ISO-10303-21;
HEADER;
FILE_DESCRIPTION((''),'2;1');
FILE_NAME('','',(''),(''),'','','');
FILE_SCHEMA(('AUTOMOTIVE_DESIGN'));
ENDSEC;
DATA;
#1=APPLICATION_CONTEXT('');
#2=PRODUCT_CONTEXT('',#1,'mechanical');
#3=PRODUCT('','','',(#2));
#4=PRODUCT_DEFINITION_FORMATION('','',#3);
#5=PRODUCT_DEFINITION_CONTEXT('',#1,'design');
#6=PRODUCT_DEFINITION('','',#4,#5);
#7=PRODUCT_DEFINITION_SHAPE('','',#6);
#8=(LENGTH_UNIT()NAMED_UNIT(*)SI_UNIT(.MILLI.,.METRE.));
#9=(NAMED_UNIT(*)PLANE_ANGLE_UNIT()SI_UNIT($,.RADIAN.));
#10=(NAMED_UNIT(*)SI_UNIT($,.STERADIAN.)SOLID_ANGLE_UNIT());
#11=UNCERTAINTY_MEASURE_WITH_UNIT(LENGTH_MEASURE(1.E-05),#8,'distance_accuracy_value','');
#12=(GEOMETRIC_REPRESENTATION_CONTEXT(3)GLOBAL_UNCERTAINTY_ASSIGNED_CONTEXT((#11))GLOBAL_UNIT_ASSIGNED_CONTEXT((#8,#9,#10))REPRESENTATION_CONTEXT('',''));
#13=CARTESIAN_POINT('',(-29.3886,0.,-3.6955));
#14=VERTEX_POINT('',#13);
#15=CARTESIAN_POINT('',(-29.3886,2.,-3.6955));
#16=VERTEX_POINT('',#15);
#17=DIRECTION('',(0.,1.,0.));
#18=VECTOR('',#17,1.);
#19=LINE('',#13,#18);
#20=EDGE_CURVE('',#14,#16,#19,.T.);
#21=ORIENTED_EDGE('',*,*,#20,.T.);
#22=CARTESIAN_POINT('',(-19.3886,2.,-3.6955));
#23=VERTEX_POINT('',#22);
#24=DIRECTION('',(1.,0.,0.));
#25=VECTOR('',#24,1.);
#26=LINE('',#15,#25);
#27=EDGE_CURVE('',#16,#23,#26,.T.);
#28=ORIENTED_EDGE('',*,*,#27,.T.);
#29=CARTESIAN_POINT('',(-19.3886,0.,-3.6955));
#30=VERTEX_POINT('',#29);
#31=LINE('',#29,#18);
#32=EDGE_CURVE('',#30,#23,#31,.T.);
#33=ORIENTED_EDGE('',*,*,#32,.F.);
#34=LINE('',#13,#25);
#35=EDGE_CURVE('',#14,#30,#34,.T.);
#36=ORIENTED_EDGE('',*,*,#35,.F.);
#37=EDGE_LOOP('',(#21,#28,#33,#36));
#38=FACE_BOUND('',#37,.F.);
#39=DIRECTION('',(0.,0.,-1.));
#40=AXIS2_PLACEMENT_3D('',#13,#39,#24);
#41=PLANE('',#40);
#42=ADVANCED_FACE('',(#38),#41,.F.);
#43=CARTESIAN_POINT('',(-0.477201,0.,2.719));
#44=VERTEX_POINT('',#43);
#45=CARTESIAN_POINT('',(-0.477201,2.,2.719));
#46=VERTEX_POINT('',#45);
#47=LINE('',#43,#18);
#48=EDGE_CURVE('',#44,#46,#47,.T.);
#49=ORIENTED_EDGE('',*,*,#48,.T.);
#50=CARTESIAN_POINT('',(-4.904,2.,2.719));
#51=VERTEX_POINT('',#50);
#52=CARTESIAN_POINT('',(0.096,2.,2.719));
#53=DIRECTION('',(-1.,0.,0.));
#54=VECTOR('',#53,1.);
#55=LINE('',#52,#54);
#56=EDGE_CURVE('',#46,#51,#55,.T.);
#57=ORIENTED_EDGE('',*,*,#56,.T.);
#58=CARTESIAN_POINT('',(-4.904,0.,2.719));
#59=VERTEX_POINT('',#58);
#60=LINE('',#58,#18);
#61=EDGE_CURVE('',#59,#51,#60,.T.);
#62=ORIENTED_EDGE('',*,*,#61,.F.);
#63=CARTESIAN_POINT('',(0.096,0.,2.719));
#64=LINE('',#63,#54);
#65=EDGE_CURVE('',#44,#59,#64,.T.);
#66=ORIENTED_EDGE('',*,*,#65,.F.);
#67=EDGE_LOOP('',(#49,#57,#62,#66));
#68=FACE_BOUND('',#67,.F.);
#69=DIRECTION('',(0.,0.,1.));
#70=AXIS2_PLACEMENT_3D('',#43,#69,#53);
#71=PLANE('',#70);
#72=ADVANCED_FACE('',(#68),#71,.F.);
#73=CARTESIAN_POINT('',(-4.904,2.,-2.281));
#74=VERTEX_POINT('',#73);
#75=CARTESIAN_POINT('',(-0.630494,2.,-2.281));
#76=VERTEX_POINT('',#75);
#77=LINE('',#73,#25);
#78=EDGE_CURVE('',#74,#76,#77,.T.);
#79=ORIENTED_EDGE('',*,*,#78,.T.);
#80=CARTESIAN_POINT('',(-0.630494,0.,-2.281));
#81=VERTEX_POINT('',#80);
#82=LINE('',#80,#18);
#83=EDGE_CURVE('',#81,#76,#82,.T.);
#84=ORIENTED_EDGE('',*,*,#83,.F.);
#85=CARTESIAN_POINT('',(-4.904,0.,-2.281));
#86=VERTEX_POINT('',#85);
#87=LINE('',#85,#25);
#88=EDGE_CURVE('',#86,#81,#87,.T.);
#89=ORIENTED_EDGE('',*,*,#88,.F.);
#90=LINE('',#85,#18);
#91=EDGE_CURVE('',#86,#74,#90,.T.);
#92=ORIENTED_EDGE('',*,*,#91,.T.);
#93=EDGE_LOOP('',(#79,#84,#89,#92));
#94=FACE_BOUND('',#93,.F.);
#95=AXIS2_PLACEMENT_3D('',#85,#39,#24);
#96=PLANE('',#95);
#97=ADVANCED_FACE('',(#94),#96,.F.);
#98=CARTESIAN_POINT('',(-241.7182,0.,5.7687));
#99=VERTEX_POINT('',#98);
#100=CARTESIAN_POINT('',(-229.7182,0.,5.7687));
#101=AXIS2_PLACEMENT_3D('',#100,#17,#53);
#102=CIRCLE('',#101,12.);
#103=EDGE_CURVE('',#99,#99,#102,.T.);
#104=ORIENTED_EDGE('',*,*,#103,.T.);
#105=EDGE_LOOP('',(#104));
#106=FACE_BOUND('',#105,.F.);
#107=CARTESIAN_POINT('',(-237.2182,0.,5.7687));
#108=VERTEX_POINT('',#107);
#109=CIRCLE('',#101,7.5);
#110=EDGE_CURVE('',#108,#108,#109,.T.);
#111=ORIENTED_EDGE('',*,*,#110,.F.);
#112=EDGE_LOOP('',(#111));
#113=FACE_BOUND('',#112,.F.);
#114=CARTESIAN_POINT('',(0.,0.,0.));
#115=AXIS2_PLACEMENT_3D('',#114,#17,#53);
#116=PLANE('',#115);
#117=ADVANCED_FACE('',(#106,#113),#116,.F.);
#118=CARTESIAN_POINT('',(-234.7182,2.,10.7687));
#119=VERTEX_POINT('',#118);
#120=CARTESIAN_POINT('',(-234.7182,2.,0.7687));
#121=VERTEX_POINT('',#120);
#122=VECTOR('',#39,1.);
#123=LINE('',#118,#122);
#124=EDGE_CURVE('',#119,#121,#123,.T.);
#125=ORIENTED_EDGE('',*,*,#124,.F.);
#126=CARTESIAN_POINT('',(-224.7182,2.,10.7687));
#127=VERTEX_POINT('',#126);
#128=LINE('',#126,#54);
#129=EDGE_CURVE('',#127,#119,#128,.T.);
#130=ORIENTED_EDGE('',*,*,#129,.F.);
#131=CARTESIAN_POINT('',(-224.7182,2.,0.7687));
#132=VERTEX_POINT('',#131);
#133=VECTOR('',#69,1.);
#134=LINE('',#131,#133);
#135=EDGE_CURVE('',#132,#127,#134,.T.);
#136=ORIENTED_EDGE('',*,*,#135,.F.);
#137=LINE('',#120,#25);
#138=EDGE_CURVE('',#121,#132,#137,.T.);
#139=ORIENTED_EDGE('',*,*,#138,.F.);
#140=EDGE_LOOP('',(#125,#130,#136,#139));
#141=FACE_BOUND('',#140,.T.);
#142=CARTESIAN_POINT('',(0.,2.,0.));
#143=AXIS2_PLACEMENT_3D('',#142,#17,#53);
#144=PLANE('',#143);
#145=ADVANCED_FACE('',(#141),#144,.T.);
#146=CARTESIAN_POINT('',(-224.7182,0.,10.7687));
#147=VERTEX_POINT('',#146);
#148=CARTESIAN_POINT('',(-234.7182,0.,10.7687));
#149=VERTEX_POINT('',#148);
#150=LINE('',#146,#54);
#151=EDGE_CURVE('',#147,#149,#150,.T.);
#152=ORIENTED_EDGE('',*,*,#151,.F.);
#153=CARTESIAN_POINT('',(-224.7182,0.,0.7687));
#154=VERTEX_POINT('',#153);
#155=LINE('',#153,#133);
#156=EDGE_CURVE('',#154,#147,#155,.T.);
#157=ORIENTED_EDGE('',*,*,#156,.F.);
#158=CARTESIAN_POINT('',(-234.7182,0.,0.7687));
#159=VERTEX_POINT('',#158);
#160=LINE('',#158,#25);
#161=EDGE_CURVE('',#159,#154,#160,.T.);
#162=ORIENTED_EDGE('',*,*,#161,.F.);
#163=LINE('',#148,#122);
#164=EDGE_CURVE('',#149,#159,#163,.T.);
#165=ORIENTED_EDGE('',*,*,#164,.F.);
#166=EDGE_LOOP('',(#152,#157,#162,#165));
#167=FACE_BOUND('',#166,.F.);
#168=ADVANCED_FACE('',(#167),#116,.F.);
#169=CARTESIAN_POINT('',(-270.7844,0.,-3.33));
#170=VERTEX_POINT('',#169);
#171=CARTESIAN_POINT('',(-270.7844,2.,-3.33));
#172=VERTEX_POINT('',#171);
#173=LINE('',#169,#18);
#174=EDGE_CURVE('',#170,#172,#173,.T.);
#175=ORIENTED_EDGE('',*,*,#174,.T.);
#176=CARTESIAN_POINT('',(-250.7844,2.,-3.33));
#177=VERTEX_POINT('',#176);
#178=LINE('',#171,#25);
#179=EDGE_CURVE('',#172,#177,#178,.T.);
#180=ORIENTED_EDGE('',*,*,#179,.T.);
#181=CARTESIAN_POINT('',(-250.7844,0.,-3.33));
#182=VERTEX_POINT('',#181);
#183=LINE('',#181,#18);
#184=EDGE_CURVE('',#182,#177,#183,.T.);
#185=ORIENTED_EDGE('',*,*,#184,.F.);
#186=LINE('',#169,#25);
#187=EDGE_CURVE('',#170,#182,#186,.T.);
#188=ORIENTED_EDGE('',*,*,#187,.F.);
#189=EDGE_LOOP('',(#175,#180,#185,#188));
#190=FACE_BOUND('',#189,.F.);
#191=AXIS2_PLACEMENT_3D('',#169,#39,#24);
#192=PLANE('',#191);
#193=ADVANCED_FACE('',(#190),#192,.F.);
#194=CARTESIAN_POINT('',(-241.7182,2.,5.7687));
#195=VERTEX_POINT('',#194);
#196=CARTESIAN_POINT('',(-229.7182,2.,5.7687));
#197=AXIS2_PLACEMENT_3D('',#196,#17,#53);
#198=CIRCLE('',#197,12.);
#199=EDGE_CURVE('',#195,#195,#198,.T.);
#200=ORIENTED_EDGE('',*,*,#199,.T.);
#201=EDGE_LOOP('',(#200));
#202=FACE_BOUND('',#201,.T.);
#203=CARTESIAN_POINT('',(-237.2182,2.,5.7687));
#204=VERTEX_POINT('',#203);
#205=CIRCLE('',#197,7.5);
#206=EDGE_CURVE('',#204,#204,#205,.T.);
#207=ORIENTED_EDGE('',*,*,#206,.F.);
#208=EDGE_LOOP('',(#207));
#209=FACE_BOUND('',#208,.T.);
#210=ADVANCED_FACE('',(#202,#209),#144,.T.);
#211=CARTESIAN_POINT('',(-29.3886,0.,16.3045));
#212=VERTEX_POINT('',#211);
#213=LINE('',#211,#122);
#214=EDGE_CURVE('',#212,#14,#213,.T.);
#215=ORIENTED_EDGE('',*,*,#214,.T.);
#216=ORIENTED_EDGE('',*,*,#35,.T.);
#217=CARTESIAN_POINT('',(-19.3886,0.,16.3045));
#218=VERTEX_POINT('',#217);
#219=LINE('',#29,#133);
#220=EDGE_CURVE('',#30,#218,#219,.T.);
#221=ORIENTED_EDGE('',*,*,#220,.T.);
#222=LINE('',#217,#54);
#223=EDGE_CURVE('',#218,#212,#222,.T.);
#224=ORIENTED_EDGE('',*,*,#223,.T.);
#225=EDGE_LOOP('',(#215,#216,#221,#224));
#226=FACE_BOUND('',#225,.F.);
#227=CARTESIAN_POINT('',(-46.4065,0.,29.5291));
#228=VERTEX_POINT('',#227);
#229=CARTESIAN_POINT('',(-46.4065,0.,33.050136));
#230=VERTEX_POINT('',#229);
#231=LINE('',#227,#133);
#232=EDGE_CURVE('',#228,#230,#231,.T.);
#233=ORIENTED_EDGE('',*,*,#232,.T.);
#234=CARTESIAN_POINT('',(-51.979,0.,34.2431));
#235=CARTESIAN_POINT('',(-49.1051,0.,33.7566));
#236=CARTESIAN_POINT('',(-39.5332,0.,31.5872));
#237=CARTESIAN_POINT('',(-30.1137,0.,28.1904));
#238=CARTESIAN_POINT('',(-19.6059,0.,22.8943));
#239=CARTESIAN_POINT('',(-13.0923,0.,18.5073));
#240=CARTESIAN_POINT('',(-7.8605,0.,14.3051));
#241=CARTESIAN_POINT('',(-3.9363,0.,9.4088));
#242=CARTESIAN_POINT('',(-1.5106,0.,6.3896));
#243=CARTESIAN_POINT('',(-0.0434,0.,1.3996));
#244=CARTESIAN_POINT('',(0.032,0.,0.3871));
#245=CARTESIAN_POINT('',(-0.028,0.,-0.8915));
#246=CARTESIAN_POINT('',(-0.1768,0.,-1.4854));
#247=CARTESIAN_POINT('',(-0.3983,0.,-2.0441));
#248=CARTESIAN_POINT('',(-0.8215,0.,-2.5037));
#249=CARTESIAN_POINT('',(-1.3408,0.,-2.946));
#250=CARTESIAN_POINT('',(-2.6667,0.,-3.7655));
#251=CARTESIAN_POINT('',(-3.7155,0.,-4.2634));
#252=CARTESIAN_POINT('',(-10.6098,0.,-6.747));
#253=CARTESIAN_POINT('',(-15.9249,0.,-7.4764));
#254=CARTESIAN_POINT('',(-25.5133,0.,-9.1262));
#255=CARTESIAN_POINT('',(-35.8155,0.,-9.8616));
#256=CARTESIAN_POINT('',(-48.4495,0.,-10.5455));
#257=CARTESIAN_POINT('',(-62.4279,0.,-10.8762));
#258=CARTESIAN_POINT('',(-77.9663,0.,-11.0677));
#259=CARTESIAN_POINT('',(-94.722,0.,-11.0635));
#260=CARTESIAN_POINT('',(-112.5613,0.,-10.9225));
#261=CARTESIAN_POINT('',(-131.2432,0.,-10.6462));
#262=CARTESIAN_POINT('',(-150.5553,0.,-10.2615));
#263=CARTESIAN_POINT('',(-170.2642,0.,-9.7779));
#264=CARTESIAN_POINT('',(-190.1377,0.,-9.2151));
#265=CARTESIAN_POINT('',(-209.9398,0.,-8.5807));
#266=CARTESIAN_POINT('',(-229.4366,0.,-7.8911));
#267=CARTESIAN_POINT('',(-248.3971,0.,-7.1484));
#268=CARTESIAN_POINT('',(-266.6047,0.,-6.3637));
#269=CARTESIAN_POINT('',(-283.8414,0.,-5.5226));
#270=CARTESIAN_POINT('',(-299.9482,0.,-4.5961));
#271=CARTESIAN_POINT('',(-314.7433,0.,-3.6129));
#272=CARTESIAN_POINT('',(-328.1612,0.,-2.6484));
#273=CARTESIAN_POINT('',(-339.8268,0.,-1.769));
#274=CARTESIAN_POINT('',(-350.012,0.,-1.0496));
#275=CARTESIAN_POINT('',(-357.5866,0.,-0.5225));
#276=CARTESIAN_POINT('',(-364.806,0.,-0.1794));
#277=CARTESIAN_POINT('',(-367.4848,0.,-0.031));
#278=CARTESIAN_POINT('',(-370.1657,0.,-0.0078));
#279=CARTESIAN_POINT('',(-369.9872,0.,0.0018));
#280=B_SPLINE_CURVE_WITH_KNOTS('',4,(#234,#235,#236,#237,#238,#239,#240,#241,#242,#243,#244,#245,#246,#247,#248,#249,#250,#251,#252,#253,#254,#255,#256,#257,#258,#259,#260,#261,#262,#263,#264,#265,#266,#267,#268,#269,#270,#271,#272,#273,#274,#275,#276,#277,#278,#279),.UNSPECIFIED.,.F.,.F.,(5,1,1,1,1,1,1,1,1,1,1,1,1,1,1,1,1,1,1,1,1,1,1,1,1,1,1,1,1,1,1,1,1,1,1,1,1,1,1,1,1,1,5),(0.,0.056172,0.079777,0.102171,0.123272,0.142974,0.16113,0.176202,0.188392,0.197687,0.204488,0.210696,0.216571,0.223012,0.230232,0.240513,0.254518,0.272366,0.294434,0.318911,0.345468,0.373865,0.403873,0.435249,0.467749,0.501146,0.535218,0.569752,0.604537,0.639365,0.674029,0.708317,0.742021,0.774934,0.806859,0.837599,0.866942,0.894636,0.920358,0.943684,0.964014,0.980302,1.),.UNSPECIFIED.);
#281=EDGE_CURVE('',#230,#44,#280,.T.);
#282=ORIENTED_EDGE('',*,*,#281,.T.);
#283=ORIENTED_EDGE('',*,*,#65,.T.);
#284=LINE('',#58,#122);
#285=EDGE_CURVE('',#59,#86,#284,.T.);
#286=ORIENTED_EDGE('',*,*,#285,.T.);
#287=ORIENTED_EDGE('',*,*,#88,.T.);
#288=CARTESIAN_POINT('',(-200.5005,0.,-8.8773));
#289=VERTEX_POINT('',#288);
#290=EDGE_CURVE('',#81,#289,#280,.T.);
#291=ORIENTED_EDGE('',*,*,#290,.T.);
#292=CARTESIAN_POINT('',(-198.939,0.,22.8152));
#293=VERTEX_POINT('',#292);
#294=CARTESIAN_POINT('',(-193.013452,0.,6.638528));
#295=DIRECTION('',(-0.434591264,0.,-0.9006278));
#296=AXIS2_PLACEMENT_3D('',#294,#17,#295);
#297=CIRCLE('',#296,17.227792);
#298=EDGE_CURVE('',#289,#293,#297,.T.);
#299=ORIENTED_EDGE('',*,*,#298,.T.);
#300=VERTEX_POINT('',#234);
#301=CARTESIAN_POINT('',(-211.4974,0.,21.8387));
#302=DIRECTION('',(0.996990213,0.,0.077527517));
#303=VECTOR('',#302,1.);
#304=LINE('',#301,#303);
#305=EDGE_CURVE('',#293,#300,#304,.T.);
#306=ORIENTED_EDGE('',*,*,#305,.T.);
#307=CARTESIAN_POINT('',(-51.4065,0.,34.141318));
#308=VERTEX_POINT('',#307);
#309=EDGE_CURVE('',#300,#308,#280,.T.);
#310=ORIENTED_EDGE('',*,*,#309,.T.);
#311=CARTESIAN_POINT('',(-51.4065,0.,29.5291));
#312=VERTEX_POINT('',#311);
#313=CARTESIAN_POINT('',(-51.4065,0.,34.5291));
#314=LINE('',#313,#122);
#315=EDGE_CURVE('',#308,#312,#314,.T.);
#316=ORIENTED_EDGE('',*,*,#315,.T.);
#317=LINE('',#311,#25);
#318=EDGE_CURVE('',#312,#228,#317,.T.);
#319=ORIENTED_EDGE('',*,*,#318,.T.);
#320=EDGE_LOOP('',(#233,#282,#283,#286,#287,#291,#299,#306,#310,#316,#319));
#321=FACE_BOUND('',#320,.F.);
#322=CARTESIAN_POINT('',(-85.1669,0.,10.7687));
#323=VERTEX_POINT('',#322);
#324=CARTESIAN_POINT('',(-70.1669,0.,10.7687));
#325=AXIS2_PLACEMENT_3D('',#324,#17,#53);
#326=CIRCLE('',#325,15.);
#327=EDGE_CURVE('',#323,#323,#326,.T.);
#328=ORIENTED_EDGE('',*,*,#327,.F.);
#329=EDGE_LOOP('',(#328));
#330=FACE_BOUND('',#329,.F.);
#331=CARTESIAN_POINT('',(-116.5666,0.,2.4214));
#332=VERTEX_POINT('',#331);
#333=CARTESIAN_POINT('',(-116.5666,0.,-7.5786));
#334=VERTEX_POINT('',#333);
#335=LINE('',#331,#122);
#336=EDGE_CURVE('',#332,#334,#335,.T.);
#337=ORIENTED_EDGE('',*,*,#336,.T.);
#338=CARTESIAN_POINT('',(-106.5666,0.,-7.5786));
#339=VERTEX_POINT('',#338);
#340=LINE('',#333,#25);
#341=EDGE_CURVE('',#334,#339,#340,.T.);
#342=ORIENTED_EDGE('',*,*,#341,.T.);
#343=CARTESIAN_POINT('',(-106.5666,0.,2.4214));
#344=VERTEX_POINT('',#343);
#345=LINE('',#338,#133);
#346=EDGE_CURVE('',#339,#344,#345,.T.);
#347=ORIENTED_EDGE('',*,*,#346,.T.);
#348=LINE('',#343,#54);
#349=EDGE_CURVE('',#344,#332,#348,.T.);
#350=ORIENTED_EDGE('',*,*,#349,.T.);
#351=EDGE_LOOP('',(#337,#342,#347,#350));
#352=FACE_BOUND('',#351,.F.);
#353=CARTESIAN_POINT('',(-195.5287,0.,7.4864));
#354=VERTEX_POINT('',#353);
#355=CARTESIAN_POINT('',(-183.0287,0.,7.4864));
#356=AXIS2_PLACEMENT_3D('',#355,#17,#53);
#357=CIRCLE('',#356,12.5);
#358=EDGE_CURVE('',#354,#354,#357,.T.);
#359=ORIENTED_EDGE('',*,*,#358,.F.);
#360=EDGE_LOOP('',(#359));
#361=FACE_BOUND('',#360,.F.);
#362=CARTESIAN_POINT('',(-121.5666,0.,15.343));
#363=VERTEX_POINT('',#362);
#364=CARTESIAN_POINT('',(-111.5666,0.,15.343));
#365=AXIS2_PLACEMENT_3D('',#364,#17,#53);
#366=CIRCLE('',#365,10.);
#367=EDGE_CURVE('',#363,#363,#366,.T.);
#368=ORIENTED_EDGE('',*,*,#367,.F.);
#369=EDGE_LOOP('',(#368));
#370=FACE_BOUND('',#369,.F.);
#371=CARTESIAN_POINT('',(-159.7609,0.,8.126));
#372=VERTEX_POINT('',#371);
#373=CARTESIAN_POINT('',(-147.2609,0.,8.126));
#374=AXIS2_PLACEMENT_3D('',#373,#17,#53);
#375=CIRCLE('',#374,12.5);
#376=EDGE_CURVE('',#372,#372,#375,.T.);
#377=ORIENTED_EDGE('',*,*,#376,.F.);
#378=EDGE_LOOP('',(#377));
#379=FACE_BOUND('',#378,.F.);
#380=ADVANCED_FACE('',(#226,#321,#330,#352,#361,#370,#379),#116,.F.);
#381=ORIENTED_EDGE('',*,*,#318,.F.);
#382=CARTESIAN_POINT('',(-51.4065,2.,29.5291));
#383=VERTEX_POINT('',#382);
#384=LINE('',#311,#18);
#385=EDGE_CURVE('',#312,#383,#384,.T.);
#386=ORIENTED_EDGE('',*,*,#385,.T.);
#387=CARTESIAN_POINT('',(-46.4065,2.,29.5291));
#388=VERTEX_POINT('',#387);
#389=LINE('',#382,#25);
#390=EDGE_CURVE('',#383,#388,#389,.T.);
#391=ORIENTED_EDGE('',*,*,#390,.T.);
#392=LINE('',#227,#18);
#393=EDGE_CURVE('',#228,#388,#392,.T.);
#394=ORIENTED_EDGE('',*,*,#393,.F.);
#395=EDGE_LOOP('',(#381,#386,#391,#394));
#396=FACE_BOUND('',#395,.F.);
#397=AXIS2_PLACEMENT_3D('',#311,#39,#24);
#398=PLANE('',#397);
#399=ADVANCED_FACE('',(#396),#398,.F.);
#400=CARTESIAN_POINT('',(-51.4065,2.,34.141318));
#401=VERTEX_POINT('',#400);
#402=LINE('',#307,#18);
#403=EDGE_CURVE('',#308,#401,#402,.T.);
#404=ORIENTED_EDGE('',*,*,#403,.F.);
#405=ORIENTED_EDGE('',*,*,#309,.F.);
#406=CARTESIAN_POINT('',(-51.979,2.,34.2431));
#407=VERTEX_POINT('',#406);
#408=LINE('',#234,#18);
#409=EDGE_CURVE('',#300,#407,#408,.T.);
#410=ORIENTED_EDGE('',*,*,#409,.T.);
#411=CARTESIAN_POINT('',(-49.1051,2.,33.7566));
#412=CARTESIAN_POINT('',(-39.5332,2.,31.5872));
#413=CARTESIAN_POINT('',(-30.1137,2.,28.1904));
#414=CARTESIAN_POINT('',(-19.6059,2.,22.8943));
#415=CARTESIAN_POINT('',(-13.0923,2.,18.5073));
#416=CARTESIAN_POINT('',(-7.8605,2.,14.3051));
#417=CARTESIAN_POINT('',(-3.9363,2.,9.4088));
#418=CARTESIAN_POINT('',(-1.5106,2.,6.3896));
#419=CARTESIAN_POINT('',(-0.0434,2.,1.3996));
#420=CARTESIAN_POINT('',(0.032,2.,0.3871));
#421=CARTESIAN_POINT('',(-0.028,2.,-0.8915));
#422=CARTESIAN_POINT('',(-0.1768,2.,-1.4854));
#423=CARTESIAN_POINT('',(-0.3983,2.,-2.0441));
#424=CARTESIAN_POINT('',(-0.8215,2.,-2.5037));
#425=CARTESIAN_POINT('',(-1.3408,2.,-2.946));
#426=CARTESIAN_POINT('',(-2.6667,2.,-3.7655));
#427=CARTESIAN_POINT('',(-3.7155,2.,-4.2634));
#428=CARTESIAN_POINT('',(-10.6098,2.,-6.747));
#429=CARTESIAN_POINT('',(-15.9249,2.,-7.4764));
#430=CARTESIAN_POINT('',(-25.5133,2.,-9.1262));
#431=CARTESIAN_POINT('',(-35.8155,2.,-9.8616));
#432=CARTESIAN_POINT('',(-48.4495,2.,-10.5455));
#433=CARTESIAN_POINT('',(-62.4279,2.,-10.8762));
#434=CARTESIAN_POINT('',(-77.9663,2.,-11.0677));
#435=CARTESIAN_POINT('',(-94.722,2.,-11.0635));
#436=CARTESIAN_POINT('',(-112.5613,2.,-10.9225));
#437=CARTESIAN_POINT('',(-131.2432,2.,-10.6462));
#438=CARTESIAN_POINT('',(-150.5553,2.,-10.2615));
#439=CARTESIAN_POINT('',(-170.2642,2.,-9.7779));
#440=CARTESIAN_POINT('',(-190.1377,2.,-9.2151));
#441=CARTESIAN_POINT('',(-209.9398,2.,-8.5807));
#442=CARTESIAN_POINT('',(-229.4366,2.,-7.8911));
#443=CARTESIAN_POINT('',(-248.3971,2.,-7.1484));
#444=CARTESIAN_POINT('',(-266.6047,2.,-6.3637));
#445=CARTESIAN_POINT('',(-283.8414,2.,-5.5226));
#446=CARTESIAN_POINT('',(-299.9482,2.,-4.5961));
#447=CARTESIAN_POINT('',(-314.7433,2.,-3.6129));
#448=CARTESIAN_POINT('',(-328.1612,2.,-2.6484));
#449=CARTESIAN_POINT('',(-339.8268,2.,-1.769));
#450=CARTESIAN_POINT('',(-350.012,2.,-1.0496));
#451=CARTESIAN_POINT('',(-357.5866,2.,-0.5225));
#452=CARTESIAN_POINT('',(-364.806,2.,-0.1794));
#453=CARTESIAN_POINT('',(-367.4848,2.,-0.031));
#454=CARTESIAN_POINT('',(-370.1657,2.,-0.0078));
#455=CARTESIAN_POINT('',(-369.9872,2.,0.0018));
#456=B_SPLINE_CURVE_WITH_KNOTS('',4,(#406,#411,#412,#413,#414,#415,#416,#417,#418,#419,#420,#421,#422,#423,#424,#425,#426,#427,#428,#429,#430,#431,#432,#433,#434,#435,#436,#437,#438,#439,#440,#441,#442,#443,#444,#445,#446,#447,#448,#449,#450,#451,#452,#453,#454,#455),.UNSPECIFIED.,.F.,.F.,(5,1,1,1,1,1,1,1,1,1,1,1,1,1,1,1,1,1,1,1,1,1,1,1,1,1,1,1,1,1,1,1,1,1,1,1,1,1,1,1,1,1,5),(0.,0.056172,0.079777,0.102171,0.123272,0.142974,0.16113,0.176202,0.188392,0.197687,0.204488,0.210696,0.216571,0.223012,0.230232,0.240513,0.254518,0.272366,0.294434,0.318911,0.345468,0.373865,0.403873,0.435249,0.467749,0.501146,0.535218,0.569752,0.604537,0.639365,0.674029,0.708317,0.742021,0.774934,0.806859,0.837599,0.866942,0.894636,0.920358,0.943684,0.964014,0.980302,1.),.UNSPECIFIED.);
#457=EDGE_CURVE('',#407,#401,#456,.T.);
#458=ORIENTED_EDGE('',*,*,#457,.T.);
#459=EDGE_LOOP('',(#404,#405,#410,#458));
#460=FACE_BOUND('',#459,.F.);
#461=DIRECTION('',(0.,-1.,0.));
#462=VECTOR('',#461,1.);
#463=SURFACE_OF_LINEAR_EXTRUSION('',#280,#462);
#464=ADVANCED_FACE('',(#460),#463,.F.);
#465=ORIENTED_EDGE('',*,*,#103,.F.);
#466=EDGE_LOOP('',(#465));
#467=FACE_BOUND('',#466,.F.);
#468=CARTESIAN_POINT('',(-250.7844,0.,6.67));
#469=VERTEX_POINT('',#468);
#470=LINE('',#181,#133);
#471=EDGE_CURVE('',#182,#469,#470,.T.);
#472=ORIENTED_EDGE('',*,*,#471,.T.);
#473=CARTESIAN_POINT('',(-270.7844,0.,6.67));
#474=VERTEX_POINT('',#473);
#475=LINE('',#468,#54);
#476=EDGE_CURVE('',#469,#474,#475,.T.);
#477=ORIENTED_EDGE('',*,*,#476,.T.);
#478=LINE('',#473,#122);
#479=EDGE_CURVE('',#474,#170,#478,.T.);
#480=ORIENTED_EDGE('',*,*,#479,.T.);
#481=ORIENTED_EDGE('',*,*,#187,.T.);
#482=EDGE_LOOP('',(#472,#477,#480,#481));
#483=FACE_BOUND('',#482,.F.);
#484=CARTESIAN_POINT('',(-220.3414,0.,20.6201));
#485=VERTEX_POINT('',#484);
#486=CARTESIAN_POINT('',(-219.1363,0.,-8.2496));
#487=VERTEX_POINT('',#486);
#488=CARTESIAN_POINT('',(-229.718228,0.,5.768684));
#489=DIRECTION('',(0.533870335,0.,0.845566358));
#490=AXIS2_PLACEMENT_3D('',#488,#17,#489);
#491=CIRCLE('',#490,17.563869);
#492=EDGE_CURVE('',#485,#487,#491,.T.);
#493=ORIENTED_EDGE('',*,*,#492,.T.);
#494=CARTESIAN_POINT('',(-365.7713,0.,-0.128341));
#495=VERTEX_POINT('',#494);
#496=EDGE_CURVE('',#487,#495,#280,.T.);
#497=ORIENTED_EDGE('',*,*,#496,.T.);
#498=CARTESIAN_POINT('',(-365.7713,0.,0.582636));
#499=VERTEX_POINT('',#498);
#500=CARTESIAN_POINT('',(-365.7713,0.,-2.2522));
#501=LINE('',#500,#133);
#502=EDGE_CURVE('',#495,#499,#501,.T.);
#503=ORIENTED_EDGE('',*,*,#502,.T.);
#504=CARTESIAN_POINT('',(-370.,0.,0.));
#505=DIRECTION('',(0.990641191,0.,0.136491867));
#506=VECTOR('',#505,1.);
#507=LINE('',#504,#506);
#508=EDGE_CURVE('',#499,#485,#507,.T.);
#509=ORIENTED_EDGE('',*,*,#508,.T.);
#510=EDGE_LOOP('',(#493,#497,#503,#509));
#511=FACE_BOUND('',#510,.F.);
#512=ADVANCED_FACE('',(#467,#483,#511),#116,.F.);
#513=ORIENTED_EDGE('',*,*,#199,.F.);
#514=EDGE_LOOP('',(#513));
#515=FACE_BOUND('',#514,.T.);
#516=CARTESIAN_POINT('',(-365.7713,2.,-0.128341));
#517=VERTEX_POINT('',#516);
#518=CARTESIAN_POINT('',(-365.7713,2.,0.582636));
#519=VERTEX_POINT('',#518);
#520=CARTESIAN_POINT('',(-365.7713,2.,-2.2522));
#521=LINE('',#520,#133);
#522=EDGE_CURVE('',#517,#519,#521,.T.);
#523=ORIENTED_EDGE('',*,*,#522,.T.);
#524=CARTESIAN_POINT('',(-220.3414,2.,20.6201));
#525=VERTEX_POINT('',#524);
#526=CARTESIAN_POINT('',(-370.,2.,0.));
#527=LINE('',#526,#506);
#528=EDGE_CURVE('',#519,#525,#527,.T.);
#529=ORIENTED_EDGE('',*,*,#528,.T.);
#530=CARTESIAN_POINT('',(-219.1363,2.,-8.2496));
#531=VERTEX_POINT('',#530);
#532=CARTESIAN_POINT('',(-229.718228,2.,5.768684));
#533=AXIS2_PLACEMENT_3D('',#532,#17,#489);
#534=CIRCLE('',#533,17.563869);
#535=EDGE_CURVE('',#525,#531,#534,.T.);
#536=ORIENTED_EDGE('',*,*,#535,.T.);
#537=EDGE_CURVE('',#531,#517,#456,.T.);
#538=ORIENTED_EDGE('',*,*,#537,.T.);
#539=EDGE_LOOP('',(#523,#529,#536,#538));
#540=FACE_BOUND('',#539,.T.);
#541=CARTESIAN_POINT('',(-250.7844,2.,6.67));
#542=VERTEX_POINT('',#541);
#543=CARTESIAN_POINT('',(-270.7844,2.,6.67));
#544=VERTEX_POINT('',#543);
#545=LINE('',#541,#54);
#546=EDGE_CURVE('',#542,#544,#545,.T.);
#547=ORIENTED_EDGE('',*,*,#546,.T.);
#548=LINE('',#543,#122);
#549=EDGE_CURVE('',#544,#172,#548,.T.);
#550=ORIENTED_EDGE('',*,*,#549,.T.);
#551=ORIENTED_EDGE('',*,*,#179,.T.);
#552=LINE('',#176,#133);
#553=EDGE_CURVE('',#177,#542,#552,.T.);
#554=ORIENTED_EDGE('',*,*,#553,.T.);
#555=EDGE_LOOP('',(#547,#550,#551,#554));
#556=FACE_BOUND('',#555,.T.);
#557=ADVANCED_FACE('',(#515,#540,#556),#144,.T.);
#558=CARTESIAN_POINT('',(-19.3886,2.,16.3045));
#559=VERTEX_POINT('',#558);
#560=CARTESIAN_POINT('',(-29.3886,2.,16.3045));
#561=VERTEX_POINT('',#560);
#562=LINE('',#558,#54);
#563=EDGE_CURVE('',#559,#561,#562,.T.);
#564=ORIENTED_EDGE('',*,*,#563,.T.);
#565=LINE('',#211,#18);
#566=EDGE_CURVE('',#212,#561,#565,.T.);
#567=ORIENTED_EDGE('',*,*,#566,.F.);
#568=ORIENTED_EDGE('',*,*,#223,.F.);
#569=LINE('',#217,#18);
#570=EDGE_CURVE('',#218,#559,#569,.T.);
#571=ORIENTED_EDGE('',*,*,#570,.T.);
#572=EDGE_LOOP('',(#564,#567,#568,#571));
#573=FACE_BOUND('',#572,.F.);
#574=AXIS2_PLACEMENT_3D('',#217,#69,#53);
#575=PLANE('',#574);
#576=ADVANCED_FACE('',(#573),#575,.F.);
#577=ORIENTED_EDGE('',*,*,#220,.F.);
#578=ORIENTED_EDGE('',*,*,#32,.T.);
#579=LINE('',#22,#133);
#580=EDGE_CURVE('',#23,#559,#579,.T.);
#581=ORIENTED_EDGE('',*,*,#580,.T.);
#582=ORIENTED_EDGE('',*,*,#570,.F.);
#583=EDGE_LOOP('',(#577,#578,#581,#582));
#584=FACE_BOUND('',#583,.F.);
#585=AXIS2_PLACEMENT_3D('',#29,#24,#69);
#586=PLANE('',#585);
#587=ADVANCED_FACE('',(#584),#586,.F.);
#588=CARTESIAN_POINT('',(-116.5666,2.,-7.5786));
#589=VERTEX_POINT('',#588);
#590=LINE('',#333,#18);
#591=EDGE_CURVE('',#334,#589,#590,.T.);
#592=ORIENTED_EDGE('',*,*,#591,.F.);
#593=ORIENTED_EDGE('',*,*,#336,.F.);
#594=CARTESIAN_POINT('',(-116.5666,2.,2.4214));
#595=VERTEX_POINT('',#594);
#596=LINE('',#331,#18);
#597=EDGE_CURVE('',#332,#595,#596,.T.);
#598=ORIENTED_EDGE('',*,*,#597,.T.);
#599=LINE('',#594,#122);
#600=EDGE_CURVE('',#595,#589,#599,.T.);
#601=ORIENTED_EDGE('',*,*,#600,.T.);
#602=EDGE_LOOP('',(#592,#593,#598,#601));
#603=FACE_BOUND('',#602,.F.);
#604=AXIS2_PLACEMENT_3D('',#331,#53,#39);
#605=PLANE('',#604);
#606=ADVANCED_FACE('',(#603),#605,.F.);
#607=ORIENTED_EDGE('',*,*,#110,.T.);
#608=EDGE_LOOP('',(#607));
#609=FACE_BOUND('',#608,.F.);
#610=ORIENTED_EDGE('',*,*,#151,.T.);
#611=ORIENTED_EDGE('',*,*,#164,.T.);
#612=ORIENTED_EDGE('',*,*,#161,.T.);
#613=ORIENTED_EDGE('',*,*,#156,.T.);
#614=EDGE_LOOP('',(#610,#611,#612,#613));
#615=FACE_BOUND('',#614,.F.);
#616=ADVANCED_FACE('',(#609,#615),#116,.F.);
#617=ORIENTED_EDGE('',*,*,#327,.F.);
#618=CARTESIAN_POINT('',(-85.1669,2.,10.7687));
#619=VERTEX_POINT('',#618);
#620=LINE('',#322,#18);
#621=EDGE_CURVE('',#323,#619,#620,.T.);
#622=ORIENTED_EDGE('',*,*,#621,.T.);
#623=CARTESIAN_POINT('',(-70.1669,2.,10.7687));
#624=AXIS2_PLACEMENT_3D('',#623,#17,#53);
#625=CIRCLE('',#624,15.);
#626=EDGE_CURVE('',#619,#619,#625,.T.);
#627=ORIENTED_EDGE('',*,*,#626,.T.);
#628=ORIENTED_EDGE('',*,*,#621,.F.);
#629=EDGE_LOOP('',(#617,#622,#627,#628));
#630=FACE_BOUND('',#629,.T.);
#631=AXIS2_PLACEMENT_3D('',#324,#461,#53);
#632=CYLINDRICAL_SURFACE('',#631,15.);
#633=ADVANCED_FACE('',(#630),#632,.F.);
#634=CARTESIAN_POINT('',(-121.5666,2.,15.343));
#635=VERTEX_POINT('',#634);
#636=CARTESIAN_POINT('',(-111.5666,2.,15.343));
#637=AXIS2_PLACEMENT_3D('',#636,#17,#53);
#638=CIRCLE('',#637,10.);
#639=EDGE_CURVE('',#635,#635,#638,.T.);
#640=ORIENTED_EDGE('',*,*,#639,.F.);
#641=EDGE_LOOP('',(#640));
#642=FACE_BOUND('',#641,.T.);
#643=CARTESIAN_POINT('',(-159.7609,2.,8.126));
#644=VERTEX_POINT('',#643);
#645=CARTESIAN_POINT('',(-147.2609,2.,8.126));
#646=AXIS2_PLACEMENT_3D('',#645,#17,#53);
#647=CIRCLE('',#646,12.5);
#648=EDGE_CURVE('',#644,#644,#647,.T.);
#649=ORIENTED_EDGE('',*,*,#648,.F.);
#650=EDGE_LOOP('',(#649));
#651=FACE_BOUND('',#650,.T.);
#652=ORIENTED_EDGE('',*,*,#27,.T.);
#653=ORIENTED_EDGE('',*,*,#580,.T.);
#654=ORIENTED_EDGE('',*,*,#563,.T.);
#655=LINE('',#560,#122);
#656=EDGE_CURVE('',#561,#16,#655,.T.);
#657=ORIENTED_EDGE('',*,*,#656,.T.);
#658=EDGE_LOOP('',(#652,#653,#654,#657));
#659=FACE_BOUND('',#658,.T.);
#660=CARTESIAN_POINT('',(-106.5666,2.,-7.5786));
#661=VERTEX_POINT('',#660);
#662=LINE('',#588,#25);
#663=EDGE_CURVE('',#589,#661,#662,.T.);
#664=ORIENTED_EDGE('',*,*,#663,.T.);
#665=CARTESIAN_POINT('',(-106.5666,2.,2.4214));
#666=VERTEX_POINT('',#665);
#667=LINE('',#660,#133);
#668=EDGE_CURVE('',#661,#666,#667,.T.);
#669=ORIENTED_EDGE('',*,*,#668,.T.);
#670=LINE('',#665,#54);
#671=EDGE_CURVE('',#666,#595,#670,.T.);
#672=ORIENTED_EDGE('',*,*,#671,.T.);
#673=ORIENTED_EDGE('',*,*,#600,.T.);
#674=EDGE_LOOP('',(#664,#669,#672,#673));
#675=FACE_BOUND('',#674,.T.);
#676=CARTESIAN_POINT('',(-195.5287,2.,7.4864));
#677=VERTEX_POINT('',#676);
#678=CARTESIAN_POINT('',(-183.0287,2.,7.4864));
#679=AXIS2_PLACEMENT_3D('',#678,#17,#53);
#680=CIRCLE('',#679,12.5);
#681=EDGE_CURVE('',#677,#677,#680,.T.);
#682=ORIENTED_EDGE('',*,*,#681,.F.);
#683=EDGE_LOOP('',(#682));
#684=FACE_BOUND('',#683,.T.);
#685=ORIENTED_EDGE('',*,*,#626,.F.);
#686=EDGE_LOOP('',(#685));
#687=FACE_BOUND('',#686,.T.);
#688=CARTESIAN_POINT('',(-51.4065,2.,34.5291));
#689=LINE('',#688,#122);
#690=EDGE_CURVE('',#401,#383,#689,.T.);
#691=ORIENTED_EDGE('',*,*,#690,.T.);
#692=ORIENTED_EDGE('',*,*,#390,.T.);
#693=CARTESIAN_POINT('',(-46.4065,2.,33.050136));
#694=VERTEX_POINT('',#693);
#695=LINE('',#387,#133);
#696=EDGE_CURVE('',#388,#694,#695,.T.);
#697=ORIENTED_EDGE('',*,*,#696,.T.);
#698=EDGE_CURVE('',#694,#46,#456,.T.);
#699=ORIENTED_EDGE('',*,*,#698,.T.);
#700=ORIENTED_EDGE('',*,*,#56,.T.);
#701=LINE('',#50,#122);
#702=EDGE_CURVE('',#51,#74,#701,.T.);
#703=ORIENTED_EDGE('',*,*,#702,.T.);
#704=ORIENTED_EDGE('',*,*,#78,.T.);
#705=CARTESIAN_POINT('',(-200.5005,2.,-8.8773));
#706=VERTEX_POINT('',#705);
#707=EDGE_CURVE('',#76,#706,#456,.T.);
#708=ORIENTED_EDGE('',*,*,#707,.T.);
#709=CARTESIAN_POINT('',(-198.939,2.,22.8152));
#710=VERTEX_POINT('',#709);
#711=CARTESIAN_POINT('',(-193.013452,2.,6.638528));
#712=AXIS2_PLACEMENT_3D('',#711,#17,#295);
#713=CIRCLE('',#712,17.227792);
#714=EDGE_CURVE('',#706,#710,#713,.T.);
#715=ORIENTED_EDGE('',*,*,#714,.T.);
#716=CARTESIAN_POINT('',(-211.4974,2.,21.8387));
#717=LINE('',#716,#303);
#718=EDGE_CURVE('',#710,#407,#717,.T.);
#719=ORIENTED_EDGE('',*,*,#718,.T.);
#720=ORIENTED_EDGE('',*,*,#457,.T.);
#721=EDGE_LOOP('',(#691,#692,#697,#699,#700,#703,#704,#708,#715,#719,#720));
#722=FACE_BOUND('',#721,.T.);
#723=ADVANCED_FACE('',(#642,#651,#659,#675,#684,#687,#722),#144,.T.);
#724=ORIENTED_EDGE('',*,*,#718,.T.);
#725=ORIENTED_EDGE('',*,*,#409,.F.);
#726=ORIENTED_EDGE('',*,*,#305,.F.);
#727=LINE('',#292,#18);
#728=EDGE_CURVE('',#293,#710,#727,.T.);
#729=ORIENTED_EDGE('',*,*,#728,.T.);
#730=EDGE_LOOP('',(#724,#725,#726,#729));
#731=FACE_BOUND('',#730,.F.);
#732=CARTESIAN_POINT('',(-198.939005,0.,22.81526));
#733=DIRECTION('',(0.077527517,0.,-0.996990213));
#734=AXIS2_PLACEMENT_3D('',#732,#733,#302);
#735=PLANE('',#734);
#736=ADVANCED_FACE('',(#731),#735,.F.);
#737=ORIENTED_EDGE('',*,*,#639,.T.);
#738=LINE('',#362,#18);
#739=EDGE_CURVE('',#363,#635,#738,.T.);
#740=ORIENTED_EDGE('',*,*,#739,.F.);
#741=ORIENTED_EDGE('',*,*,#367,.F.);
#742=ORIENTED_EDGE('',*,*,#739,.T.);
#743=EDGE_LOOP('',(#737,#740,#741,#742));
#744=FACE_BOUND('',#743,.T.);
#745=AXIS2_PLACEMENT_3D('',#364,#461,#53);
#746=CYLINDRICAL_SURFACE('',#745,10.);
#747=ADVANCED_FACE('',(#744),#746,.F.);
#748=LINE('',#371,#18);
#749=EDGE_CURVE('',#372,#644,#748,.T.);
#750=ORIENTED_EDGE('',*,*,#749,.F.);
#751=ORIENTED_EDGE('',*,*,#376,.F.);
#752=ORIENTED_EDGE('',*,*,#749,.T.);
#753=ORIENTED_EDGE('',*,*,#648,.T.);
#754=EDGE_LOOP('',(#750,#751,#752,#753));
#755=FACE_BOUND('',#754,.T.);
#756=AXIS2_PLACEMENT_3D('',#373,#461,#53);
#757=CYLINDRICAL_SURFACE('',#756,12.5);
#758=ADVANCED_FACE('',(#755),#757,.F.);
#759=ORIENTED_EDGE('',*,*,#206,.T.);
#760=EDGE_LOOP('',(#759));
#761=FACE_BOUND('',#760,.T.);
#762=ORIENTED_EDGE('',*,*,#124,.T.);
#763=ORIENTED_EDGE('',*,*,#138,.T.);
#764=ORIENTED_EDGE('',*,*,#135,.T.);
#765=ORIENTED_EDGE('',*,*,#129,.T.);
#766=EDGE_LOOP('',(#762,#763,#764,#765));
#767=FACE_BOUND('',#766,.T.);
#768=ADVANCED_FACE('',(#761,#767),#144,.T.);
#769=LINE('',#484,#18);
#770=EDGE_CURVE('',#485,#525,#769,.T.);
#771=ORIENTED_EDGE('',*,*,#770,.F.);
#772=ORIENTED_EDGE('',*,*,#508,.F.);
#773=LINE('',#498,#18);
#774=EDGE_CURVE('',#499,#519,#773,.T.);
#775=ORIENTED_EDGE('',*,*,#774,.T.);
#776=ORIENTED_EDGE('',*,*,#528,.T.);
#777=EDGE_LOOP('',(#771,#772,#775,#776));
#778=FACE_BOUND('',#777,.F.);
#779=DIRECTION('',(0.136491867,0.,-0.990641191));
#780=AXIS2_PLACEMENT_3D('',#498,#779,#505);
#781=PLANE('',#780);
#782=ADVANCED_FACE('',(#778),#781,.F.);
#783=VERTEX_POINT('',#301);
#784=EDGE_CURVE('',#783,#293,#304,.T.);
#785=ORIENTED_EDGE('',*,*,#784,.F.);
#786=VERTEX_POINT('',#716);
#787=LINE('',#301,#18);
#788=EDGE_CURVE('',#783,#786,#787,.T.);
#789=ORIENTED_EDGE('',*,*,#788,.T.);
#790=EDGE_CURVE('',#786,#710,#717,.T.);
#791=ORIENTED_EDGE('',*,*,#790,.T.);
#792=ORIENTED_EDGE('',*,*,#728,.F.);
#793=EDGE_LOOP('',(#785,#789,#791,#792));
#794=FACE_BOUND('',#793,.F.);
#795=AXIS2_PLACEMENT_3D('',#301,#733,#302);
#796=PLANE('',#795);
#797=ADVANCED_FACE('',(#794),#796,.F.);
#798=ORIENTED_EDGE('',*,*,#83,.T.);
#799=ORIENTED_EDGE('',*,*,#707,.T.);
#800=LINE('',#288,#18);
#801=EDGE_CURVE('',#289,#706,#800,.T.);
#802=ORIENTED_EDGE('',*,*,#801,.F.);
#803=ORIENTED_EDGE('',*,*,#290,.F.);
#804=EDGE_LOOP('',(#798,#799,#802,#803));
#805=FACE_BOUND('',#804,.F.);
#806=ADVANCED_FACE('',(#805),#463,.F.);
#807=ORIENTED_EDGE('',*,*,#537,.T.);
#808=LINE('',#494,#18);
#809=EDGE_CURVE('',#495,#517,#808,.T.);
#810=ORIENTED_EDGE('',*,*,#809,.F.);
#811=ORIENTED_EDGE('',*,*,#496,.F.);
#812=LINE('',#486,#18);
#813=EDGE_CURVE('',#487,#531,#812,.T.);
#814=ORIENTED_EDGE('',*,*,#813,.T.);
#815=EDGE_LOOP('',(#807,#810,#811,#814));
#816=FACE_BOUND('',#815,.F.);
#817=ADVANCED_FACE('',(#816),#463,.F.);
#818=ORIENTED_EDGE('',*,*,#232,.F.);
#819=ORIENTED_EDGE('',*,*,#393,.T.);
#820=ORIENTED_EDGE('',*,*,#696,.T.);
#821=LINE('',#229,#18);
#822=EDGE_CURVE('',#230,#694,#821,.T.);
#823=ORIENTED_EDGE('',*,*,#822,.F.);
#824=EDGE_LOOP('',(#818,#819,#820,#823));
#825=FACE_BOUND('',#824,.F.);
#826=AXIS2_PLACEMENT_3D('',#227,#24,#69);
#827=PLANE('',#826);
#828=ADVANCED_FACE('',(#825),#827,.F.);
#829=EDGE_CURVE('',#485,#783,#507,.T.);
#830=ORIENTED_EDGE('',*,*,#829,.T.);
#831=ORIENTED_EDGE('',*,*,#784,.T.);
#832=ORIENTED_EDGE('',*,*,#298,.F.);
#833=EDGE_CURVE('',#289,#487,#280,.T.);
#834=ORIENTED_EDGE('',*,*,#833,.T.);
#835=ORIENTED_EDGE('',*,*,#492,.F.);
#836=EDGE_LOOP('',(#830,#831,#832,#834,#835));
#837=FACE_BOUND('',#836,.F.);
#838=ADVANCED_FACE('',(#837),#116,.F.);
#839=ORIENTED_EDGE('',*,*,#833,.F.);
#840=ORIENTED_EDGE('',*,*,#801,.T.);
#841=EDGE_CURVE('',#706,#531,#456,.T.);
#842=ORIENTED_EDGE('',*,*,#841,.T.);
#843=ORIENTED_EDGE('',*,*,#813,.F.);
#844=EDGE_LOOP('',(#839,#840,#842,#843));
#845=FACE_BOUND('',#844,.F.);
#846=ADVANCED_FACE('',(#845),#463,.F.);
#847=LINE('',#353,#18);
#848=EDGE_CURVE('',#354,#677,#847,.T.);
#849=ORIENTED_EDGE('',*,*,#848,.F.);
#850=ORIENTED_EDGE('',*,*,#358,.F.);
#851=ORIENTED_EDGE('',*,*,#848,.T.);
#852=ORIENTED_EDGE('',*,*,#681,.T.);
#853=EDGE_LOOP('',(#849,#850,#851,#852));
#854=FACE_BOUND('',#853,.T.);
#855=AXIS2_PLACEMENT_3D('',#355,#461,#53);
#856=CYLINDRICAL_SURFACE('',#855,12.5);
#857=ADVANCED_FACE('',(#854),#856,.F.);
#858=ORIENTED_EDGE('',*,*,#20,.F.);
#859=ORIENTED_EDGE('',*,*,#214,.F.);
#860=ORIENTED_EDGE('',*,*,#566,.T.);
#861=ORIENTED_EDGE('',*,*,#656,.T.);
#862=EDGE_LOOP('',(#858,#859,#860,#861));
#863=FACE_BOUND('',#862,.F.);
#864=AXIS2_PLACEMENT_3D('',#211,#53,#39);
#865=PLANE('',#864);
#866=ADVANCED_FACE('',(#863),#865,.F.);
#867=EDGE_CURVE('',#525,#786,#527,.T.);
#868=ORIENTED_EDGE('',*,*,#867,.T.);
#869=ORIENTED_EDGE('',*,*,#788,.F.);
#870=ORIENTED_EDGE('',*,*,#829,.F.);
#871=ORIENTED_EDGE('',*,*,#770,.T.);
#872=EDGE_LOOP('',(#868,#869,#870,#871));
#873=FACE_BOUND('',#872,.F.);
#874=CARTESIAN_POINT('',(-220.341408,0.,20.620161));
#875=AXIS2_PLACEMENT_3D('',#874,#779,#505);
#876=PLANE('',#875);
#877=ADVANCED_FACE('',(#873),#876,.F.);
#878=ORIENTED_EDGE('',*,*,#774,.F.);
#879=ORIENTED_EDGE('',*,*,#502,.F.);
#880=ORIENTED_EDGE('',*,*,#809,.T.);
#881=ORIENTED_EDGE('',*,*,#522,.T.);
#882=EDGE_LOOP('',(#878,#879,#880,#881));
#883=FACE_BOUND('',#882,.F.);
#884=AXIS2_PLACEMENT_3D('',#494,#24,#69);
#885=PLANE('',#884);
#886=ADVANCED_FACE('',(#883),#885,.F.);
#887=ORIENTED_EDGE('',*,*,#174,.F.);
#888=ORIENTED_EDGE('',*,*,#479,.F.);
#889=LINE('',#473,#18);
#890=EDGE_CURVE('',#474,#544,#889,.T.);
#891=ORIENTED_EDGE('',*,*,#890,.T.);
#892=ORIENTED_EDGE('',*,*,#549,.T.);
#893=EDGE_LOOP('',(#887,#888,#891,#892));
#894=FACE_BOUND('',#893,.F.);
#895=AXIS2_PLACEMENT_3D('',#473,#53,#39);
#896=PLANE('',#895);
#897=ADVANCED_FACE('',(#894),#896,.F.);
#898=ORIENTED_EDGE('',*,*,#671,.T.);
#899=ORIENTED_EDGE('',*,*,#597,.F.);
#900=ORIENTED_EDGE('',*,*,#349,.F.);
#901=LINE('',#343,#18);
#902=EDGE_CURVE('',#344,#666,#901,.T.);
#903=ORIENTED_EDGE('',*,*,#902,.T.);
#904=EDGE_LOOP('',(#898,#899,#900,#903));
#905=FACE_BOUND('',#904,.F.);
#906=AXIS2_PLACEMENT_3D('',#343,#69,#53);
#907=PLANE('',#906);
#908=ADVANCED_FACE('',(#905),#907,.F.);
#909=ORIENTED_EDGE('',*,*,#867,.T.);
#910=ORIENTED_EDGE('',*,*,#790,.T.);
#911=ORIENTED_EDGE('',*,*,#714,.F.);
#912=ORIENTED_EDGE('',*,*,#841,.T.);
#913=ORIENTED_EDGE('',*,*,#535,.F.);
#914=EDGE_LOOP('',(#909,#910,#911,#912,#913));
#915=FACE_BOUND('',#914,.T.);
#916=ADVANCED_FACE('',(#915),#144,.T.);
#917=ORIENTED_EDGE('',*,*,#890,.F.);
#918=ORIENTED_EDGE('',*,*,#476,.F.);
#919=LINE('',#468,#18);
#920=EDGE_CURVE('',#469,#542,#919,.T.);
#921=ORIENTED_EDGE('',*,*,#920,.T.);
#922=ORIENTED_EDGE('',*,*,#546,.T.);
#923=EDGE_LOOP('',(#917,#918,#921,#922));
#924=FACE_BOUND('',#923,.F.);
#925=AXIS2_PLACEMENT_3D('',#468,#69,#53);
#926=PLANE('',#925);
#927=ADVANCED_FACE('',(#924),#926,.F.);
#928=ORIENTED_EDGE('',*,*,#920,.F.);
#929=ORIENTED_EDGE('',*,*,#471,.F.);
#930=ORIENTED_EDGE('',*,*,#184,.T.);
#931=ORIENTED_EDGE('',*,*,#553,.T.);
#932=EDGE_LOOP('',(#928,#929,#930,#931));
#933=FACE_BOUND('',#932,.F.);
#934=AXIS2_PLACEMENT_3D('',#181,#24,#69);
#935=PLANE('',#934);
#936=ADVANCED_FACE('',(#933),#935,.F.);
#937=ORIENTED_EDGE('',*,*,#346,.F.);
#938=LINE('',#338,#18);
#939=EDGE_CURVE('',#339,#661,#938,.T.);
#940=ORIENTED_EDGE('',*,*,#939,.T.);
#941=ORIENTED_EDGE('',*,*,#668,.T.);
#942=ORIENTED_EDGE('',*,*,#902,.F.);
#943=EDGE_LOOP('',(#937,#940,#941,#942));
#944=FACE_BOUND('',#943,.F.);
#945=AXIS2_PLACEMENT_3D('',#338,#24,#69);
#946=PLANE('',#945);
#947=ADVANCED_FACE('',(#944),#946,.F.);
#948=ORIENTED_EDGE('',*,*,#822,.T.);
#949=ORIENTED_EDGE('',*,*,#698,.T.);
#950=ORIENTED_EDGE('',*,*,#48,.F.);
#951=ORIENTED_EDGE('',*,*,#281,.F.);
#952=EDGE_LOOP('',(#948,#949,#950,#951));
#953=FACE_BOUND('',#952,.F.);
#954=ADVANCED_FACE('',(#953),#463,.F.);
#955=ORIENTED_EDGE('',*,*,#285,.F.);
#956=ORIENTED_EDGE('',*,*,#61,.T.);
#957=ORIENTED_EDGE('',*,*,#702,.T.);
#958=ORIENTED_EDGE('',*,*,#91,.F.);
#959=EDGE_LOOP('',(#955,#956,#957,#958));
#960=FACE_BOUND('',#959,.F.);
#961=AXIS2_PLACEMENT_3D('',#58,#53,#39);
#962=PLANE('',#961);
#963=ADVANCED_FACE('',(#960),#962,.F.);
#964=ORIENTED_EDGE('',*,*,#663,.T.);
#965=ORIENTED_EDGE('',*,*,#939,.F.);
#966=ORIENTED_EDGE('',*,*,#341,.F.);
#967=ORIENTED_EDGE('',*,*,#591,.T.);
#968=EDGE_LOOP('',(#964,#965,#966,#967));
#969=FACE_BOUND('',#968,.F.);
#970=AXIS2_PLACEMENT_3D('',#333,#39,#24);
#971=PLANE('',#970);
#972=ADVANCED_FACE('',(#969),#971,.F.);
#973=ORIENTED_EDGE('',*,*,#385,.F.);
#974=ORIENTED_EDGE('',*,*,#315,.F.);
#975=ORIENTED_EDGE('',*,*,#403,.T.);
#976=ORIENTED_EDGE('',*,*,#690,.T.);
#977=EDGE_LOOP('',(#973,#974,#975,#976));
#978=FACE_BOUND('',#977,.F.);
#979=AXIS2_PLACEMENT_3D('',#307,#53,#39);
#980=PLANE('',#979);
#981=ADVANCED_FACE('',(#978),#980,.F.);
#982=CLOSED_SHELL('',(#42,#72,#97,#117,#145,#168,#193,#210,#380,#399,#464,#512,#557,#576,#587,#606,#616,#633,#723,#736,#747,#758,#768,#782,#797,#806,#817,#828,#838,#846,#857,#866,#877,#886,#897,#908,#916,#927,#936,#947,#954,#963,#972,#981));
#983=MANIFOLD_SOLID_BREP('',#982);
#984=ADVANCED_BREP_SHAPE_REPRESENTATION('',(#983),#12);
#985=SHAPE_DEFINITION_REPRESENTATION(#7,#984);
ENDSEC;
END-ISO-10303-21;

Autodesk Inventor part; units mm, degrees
ref_plane "YZ Plane" through (0, 0, 0) normal (1, 0, 0) x (0, 1, 0)
ref_plane "XZ Plane" through (0, 0, 0) normal (0, 1, 0) x (-1, 0, 0)
ref_plane "XY Plane" through (0, 0, 0) normal (0, 0, 1) x (1, 0, 0)
sketch "Sketch1" plane through (0, 0, 0) normal (0, 1, 0) x (-1, 0, 0)
  spline S0 degree 4 poles (51.979, 34.2431) (49.1051, 33.7566) (39.5332, 31.5872) (30.1137, 28.1904) (19.6059, 22.8943) (13.0923, 18.5073) (7.8605, 14.3051) (3.9363, 9.4088) (1.5106, 6.3896) (0.0434, 1.3996) (-0.032, 0.3871) (0.028, -0.8915) (0.1768, -1.4854) (0.3983, -2.0441) (0.8215, -2.5037) (1.3408, -2.946) (2.6667, -3.7655) (3.7155, -4.2634) (10.6098, -6.747) (15.9249, -7.4764) (25.5133, -9.1262) (35.8155, -9.8616) (48.4495, -10.5455) (62.4279, -10.8762) (77.9663, -11.0677) (94.722, -11.0635) (112.5613, -10.9225) (131.2432, -10.6462) (150.5553, -10.2615) (170.2642, -9.7779) (190.1377, -9.2151) (209.9398, -8.5807) (229.4366, -7.8911) (248.3971, -7.1484) (266.6047, -6.3637) (283.8414, -5.5226) (299.9482, -4.5961) (314.7433, -3.6129) (328.1612, -2.6484) (339.8268, -1.769) (350.012, -1.0496) (357.5866, -0.5225) (364.806, -0.1794) (367.4848, -0.031) (370.1657, -0.0078) (369.9872, 0.0018) knots 0 0 0 0 0 0.056172 0.079777 0.102171 0.123272 0.142974 0.16113 0.176202 0.188392 0.197687 0.204488 0.210696 0.216571 0.223012 0.230232 0.240513 0.254518 0.272366 0.294434 0.318911 0.345468 0.373865 0.403873 0.435249 0.467749 0.501146 0.535218 0.569752 0.604537 0.639365 0.674029 0.708317 0.742021 0.774934 0.806859 0.837599 0.866942 0.894636 0.920358 0.943684 0.964014 0.980302 1 1 1 1 1
  circle A0 centre (370, 0) radius 160 construction
  line L0 (370, 0) -> (211.4974, 21.8387)
  circle A1 centre (211.4974, 21.8387) radius 160 construction
  line L1 (211.4974, 21.8387) -> (51.979, 34.2431)
  circle A2 centre (112.1091, -11.9485) radius 9.25 construction
  line L2 (19.3886, 16.3045) -> (29.3886, 16.3045)
  line L3 (29.3886, 16.3045) -> (29.3886, -3.6955)
  line L4 (29.3886, -3.6955) -> (19.3886, -3.6955)
  line L5 (19.3886, -3.6955) -> (19.3886, 16.3045)
  line L6 (250.7844, 6.67) -> (270.7844, 6.67)
  line L7 (270.7844, 6.67) -> (270.7844, -3.33)
  line L8 (270.7844, -3.33) -> (250.7844, -3.33)
  line L9 (250.7844, -3.33) -> (250.7844, 6.67)
  line L10 (-0.096, 2.719) -> (4.904, 2.719)
  line L11 (4.904, 2.719) -> (4.904, -2.281)
  line L12 (4.904, -2.281) -> (-0.096, -2.281)
  line L13 (-0.096, -2.281) -> (-0.096, 2.719)
  circle A3 centre (369.9872, 0.0018) radius 3 construction
  line L14 (365.7713, 2.7478) -> (370.7713, 2.7478)
  line L15 (370.7713, 2.7478) -> (370.7713, -2.2522)
  line L16 (370.7713, -2.2522) -> (365.7713, -2.2522)
  line L17 (365.7713, -2.2522) -> (365.7713, 2.7478)
  line L18 (211.4974, 21.8387) -> (210.0997, -8.5616) construction
  arc A4 (200.5005, -8.8773) -> (198.939, 22.8152) centre (193.0135, 6.6385) ccw
  arc A5 (220.3414, 20.6201) -> (219.1363, -8.2496) centre (229.7182, 5.7687) ccw
  line L19 (224.7182, 10.7687) -> (234.7182, 10.7687)
  line L20 (234.7182, 10.7687) -> (234.7182, 0.7687)
  line L21 (234.7182, 0.7687) -> (224.7182, 0.7687)
  line L22 (224.7182, 0.7687) -> (224.7182, 10.7687)
  line L23 (224.7182, 10.7687) -> (234.7182, 0.7687) construction
  line L24 (234.7182, 10.7687) -> (224.7182, 0.7687) construction
  circle A6 centre (229.7182, 5.7687) radius 7.5
  line L25 (46.4065, 34.5291) -> (51.4065, 34.5291)
  line L26 (51.4065, 34.5291) -> (51.4065, 29.5291)
  line L27 (51.4065, 29.5291) -> (46.4065, 29.5291)
  line L28 (46.4065, 29.5291) -> (46.4065, 34.5291)
  line L29 (46.4065, 34.5291) -> (51.4065, 29.5291) construction
  line L30 (51.4065, 34.5291) -> (46.4065, 29.5291) construction
  circle A7 centre (229.7182, 5.7687) radius 12
  line L31 (106.5666, 2.4214) -> (116.5666, 2.4214)
  line L32 (116.5666, 2.4214) -> (116.5666, -7.5786)
  line L33 (116.5666, -7.5786) -> (106.5666, -7.5786)
  line L34 (106.5666, -7.5786) -> (106.5666, 2.4214)
  line L35 (106.5666, 2.4214) -> (116.5666, -7.5786) construction
  line L36 (116.5666, 2.4214) -> (106.5666, -7.5786) construction
  line L37 (243.8053, 20.8885) -> (169.6091, 20.8885) construction
  line L38 (169.6091, 20.8885) -> (169.6091, 2.3885) construction
  line L39 (358.8053, 63.2604) -> (243.8053, 63.2604) construction
  line L40 (243.8053, 63.2604) -> (243.8053, 20.8885) construction
  line L41 (243.8053, 20.8885) -> (169.6091, 2.3885) construction
  line L42 (169.6091, 20.8885) -> (243.8053, 63.2604) construction
  circle A8 centre (70.1669, 10.7687) radius 15
  circle A9 centre (147.2609, 8.126) radius 12.5
  circle A10 centre (111.5666, 15.343) radius 10
  circle A11 centre (183.0287, 7.4864) radius 12.5
  point P0 (0, 0)
  point P1 (370, 0)
  point P2 (35.937, 30.0257)
  point P3 (27.0238, 26.4761)
  point P4 (19.2974, 22.4624)
  point P5 (12.8156, 18.139)
  point P6 (7.6237, 13.6489)
  point P7 (3.7499, 9.1521)
  point P8 (1.2115, 4.8535)
  point P9 (0.0668, 1.0195)
  point P10 (0.0003, -0.0638)
  point P11 (0.0755, -0.9849)
  point P12 (0.2106, -1.5356)
  point P13 (0.4302, -2.0122)
  point P14 (0.7739, -2.4345)
  point P15 (1.2488, -2.8423)
  point P16 (2.1566, -3.4383)
  point P17 (3.2773, -4.0196)
  point P18 (8.2772, -5.8071)
  point P19 (15.3669, -7.4261)
  point P20 (24.3167, -8.7706)
  point P21 (35.0526, -9.7678)
  point P22 (47.5438, -10.4262)
  point P23 (61.6814, -10.8267)
  point P24 (77.2847, -11.0213)
  point P25 (94.162, -11.0379)
  point P26 (112.1091, -10.9014)
  point P27 (130.911, -10.6315)
  point P28 (150.3435, -10.2474)
  point P29 (170.176, -9.7646)
  point P30 (190.1737, -9.1986)
  point P31 (229.7182, -7.8653)
  point P32 (248.7963, -7.1166)
  point P33 (267.1071, -6.3194)
  point P34 (284.4371, -5.4606)
  point P35 (300.619, -4.5258)
  point P36 (315.5184, -3.5432)
  point P37 (328.988, -2.5786)
  point P38 (340.8625, -1.7041)
  point P39 (350.9622, -0.9861)
  point P40 (359.0984, -0.4682)
  point P41 (365.0855, -0.1602)
  point P42 (368.7597, -0.0285)
  point P43 (370, 0)
  point P44 (0.4773, 2.719)
  point P45 (0.6305, -2.281)
  point P46 (365.7713, -0.1283)
  point P47 (368.4073, 0.2194)
  point P48 (48.9065, 32.0291)
  point P49 (111.5666, -2.5786)
  point P50 (365.7713, 0.5826)
  point P51 (51.4065, 34.1414)
  point P52 (46.4065, 33.0501)
  dimension "d5" = 160
  dimension "d8" = 160
  dimension "d10" = 18.5
  dimension "d11" = 10
  dimension "d12" = 20
  dimension "d13" = 20
  dimension "d14" = 10
  dimension "d17" = 5
  dimension "d18" = 5
  dimension "d25" = 6
  dimension "d26" = 5
  dimension "d27" = 5
  dimension "d30" = 17.2278
  dimension "d33" = 10
  dimension "d34" = 10
  dimension "d35" = 15
  dimension "d36" = 5
  dimension "d37" = 5
  dimension "d41" = 24
  dimension "d42" = 10
  dimension "d43" = 10
  dimension "d47" = 115
  dimension "d48" = 18.5
  dimension "d49" = 104.4854
  dimension "d50" = 368.7594
  dimension "d51" = 30
  dimension "d52" = 25
  dimension "d53" = 20
  dimension "d54" = 25
extrude "Extrusion3" add sketch "Sketch1" along normal blind 2 contours A4 L1 L0 A5 S0 | S0 L12 L11 L10 L28 L27 L26 L1 A4 | A5 L0 L17 S0 | L19 L20 L21 L22 | A6 | A7
properties part number "airfoil"
